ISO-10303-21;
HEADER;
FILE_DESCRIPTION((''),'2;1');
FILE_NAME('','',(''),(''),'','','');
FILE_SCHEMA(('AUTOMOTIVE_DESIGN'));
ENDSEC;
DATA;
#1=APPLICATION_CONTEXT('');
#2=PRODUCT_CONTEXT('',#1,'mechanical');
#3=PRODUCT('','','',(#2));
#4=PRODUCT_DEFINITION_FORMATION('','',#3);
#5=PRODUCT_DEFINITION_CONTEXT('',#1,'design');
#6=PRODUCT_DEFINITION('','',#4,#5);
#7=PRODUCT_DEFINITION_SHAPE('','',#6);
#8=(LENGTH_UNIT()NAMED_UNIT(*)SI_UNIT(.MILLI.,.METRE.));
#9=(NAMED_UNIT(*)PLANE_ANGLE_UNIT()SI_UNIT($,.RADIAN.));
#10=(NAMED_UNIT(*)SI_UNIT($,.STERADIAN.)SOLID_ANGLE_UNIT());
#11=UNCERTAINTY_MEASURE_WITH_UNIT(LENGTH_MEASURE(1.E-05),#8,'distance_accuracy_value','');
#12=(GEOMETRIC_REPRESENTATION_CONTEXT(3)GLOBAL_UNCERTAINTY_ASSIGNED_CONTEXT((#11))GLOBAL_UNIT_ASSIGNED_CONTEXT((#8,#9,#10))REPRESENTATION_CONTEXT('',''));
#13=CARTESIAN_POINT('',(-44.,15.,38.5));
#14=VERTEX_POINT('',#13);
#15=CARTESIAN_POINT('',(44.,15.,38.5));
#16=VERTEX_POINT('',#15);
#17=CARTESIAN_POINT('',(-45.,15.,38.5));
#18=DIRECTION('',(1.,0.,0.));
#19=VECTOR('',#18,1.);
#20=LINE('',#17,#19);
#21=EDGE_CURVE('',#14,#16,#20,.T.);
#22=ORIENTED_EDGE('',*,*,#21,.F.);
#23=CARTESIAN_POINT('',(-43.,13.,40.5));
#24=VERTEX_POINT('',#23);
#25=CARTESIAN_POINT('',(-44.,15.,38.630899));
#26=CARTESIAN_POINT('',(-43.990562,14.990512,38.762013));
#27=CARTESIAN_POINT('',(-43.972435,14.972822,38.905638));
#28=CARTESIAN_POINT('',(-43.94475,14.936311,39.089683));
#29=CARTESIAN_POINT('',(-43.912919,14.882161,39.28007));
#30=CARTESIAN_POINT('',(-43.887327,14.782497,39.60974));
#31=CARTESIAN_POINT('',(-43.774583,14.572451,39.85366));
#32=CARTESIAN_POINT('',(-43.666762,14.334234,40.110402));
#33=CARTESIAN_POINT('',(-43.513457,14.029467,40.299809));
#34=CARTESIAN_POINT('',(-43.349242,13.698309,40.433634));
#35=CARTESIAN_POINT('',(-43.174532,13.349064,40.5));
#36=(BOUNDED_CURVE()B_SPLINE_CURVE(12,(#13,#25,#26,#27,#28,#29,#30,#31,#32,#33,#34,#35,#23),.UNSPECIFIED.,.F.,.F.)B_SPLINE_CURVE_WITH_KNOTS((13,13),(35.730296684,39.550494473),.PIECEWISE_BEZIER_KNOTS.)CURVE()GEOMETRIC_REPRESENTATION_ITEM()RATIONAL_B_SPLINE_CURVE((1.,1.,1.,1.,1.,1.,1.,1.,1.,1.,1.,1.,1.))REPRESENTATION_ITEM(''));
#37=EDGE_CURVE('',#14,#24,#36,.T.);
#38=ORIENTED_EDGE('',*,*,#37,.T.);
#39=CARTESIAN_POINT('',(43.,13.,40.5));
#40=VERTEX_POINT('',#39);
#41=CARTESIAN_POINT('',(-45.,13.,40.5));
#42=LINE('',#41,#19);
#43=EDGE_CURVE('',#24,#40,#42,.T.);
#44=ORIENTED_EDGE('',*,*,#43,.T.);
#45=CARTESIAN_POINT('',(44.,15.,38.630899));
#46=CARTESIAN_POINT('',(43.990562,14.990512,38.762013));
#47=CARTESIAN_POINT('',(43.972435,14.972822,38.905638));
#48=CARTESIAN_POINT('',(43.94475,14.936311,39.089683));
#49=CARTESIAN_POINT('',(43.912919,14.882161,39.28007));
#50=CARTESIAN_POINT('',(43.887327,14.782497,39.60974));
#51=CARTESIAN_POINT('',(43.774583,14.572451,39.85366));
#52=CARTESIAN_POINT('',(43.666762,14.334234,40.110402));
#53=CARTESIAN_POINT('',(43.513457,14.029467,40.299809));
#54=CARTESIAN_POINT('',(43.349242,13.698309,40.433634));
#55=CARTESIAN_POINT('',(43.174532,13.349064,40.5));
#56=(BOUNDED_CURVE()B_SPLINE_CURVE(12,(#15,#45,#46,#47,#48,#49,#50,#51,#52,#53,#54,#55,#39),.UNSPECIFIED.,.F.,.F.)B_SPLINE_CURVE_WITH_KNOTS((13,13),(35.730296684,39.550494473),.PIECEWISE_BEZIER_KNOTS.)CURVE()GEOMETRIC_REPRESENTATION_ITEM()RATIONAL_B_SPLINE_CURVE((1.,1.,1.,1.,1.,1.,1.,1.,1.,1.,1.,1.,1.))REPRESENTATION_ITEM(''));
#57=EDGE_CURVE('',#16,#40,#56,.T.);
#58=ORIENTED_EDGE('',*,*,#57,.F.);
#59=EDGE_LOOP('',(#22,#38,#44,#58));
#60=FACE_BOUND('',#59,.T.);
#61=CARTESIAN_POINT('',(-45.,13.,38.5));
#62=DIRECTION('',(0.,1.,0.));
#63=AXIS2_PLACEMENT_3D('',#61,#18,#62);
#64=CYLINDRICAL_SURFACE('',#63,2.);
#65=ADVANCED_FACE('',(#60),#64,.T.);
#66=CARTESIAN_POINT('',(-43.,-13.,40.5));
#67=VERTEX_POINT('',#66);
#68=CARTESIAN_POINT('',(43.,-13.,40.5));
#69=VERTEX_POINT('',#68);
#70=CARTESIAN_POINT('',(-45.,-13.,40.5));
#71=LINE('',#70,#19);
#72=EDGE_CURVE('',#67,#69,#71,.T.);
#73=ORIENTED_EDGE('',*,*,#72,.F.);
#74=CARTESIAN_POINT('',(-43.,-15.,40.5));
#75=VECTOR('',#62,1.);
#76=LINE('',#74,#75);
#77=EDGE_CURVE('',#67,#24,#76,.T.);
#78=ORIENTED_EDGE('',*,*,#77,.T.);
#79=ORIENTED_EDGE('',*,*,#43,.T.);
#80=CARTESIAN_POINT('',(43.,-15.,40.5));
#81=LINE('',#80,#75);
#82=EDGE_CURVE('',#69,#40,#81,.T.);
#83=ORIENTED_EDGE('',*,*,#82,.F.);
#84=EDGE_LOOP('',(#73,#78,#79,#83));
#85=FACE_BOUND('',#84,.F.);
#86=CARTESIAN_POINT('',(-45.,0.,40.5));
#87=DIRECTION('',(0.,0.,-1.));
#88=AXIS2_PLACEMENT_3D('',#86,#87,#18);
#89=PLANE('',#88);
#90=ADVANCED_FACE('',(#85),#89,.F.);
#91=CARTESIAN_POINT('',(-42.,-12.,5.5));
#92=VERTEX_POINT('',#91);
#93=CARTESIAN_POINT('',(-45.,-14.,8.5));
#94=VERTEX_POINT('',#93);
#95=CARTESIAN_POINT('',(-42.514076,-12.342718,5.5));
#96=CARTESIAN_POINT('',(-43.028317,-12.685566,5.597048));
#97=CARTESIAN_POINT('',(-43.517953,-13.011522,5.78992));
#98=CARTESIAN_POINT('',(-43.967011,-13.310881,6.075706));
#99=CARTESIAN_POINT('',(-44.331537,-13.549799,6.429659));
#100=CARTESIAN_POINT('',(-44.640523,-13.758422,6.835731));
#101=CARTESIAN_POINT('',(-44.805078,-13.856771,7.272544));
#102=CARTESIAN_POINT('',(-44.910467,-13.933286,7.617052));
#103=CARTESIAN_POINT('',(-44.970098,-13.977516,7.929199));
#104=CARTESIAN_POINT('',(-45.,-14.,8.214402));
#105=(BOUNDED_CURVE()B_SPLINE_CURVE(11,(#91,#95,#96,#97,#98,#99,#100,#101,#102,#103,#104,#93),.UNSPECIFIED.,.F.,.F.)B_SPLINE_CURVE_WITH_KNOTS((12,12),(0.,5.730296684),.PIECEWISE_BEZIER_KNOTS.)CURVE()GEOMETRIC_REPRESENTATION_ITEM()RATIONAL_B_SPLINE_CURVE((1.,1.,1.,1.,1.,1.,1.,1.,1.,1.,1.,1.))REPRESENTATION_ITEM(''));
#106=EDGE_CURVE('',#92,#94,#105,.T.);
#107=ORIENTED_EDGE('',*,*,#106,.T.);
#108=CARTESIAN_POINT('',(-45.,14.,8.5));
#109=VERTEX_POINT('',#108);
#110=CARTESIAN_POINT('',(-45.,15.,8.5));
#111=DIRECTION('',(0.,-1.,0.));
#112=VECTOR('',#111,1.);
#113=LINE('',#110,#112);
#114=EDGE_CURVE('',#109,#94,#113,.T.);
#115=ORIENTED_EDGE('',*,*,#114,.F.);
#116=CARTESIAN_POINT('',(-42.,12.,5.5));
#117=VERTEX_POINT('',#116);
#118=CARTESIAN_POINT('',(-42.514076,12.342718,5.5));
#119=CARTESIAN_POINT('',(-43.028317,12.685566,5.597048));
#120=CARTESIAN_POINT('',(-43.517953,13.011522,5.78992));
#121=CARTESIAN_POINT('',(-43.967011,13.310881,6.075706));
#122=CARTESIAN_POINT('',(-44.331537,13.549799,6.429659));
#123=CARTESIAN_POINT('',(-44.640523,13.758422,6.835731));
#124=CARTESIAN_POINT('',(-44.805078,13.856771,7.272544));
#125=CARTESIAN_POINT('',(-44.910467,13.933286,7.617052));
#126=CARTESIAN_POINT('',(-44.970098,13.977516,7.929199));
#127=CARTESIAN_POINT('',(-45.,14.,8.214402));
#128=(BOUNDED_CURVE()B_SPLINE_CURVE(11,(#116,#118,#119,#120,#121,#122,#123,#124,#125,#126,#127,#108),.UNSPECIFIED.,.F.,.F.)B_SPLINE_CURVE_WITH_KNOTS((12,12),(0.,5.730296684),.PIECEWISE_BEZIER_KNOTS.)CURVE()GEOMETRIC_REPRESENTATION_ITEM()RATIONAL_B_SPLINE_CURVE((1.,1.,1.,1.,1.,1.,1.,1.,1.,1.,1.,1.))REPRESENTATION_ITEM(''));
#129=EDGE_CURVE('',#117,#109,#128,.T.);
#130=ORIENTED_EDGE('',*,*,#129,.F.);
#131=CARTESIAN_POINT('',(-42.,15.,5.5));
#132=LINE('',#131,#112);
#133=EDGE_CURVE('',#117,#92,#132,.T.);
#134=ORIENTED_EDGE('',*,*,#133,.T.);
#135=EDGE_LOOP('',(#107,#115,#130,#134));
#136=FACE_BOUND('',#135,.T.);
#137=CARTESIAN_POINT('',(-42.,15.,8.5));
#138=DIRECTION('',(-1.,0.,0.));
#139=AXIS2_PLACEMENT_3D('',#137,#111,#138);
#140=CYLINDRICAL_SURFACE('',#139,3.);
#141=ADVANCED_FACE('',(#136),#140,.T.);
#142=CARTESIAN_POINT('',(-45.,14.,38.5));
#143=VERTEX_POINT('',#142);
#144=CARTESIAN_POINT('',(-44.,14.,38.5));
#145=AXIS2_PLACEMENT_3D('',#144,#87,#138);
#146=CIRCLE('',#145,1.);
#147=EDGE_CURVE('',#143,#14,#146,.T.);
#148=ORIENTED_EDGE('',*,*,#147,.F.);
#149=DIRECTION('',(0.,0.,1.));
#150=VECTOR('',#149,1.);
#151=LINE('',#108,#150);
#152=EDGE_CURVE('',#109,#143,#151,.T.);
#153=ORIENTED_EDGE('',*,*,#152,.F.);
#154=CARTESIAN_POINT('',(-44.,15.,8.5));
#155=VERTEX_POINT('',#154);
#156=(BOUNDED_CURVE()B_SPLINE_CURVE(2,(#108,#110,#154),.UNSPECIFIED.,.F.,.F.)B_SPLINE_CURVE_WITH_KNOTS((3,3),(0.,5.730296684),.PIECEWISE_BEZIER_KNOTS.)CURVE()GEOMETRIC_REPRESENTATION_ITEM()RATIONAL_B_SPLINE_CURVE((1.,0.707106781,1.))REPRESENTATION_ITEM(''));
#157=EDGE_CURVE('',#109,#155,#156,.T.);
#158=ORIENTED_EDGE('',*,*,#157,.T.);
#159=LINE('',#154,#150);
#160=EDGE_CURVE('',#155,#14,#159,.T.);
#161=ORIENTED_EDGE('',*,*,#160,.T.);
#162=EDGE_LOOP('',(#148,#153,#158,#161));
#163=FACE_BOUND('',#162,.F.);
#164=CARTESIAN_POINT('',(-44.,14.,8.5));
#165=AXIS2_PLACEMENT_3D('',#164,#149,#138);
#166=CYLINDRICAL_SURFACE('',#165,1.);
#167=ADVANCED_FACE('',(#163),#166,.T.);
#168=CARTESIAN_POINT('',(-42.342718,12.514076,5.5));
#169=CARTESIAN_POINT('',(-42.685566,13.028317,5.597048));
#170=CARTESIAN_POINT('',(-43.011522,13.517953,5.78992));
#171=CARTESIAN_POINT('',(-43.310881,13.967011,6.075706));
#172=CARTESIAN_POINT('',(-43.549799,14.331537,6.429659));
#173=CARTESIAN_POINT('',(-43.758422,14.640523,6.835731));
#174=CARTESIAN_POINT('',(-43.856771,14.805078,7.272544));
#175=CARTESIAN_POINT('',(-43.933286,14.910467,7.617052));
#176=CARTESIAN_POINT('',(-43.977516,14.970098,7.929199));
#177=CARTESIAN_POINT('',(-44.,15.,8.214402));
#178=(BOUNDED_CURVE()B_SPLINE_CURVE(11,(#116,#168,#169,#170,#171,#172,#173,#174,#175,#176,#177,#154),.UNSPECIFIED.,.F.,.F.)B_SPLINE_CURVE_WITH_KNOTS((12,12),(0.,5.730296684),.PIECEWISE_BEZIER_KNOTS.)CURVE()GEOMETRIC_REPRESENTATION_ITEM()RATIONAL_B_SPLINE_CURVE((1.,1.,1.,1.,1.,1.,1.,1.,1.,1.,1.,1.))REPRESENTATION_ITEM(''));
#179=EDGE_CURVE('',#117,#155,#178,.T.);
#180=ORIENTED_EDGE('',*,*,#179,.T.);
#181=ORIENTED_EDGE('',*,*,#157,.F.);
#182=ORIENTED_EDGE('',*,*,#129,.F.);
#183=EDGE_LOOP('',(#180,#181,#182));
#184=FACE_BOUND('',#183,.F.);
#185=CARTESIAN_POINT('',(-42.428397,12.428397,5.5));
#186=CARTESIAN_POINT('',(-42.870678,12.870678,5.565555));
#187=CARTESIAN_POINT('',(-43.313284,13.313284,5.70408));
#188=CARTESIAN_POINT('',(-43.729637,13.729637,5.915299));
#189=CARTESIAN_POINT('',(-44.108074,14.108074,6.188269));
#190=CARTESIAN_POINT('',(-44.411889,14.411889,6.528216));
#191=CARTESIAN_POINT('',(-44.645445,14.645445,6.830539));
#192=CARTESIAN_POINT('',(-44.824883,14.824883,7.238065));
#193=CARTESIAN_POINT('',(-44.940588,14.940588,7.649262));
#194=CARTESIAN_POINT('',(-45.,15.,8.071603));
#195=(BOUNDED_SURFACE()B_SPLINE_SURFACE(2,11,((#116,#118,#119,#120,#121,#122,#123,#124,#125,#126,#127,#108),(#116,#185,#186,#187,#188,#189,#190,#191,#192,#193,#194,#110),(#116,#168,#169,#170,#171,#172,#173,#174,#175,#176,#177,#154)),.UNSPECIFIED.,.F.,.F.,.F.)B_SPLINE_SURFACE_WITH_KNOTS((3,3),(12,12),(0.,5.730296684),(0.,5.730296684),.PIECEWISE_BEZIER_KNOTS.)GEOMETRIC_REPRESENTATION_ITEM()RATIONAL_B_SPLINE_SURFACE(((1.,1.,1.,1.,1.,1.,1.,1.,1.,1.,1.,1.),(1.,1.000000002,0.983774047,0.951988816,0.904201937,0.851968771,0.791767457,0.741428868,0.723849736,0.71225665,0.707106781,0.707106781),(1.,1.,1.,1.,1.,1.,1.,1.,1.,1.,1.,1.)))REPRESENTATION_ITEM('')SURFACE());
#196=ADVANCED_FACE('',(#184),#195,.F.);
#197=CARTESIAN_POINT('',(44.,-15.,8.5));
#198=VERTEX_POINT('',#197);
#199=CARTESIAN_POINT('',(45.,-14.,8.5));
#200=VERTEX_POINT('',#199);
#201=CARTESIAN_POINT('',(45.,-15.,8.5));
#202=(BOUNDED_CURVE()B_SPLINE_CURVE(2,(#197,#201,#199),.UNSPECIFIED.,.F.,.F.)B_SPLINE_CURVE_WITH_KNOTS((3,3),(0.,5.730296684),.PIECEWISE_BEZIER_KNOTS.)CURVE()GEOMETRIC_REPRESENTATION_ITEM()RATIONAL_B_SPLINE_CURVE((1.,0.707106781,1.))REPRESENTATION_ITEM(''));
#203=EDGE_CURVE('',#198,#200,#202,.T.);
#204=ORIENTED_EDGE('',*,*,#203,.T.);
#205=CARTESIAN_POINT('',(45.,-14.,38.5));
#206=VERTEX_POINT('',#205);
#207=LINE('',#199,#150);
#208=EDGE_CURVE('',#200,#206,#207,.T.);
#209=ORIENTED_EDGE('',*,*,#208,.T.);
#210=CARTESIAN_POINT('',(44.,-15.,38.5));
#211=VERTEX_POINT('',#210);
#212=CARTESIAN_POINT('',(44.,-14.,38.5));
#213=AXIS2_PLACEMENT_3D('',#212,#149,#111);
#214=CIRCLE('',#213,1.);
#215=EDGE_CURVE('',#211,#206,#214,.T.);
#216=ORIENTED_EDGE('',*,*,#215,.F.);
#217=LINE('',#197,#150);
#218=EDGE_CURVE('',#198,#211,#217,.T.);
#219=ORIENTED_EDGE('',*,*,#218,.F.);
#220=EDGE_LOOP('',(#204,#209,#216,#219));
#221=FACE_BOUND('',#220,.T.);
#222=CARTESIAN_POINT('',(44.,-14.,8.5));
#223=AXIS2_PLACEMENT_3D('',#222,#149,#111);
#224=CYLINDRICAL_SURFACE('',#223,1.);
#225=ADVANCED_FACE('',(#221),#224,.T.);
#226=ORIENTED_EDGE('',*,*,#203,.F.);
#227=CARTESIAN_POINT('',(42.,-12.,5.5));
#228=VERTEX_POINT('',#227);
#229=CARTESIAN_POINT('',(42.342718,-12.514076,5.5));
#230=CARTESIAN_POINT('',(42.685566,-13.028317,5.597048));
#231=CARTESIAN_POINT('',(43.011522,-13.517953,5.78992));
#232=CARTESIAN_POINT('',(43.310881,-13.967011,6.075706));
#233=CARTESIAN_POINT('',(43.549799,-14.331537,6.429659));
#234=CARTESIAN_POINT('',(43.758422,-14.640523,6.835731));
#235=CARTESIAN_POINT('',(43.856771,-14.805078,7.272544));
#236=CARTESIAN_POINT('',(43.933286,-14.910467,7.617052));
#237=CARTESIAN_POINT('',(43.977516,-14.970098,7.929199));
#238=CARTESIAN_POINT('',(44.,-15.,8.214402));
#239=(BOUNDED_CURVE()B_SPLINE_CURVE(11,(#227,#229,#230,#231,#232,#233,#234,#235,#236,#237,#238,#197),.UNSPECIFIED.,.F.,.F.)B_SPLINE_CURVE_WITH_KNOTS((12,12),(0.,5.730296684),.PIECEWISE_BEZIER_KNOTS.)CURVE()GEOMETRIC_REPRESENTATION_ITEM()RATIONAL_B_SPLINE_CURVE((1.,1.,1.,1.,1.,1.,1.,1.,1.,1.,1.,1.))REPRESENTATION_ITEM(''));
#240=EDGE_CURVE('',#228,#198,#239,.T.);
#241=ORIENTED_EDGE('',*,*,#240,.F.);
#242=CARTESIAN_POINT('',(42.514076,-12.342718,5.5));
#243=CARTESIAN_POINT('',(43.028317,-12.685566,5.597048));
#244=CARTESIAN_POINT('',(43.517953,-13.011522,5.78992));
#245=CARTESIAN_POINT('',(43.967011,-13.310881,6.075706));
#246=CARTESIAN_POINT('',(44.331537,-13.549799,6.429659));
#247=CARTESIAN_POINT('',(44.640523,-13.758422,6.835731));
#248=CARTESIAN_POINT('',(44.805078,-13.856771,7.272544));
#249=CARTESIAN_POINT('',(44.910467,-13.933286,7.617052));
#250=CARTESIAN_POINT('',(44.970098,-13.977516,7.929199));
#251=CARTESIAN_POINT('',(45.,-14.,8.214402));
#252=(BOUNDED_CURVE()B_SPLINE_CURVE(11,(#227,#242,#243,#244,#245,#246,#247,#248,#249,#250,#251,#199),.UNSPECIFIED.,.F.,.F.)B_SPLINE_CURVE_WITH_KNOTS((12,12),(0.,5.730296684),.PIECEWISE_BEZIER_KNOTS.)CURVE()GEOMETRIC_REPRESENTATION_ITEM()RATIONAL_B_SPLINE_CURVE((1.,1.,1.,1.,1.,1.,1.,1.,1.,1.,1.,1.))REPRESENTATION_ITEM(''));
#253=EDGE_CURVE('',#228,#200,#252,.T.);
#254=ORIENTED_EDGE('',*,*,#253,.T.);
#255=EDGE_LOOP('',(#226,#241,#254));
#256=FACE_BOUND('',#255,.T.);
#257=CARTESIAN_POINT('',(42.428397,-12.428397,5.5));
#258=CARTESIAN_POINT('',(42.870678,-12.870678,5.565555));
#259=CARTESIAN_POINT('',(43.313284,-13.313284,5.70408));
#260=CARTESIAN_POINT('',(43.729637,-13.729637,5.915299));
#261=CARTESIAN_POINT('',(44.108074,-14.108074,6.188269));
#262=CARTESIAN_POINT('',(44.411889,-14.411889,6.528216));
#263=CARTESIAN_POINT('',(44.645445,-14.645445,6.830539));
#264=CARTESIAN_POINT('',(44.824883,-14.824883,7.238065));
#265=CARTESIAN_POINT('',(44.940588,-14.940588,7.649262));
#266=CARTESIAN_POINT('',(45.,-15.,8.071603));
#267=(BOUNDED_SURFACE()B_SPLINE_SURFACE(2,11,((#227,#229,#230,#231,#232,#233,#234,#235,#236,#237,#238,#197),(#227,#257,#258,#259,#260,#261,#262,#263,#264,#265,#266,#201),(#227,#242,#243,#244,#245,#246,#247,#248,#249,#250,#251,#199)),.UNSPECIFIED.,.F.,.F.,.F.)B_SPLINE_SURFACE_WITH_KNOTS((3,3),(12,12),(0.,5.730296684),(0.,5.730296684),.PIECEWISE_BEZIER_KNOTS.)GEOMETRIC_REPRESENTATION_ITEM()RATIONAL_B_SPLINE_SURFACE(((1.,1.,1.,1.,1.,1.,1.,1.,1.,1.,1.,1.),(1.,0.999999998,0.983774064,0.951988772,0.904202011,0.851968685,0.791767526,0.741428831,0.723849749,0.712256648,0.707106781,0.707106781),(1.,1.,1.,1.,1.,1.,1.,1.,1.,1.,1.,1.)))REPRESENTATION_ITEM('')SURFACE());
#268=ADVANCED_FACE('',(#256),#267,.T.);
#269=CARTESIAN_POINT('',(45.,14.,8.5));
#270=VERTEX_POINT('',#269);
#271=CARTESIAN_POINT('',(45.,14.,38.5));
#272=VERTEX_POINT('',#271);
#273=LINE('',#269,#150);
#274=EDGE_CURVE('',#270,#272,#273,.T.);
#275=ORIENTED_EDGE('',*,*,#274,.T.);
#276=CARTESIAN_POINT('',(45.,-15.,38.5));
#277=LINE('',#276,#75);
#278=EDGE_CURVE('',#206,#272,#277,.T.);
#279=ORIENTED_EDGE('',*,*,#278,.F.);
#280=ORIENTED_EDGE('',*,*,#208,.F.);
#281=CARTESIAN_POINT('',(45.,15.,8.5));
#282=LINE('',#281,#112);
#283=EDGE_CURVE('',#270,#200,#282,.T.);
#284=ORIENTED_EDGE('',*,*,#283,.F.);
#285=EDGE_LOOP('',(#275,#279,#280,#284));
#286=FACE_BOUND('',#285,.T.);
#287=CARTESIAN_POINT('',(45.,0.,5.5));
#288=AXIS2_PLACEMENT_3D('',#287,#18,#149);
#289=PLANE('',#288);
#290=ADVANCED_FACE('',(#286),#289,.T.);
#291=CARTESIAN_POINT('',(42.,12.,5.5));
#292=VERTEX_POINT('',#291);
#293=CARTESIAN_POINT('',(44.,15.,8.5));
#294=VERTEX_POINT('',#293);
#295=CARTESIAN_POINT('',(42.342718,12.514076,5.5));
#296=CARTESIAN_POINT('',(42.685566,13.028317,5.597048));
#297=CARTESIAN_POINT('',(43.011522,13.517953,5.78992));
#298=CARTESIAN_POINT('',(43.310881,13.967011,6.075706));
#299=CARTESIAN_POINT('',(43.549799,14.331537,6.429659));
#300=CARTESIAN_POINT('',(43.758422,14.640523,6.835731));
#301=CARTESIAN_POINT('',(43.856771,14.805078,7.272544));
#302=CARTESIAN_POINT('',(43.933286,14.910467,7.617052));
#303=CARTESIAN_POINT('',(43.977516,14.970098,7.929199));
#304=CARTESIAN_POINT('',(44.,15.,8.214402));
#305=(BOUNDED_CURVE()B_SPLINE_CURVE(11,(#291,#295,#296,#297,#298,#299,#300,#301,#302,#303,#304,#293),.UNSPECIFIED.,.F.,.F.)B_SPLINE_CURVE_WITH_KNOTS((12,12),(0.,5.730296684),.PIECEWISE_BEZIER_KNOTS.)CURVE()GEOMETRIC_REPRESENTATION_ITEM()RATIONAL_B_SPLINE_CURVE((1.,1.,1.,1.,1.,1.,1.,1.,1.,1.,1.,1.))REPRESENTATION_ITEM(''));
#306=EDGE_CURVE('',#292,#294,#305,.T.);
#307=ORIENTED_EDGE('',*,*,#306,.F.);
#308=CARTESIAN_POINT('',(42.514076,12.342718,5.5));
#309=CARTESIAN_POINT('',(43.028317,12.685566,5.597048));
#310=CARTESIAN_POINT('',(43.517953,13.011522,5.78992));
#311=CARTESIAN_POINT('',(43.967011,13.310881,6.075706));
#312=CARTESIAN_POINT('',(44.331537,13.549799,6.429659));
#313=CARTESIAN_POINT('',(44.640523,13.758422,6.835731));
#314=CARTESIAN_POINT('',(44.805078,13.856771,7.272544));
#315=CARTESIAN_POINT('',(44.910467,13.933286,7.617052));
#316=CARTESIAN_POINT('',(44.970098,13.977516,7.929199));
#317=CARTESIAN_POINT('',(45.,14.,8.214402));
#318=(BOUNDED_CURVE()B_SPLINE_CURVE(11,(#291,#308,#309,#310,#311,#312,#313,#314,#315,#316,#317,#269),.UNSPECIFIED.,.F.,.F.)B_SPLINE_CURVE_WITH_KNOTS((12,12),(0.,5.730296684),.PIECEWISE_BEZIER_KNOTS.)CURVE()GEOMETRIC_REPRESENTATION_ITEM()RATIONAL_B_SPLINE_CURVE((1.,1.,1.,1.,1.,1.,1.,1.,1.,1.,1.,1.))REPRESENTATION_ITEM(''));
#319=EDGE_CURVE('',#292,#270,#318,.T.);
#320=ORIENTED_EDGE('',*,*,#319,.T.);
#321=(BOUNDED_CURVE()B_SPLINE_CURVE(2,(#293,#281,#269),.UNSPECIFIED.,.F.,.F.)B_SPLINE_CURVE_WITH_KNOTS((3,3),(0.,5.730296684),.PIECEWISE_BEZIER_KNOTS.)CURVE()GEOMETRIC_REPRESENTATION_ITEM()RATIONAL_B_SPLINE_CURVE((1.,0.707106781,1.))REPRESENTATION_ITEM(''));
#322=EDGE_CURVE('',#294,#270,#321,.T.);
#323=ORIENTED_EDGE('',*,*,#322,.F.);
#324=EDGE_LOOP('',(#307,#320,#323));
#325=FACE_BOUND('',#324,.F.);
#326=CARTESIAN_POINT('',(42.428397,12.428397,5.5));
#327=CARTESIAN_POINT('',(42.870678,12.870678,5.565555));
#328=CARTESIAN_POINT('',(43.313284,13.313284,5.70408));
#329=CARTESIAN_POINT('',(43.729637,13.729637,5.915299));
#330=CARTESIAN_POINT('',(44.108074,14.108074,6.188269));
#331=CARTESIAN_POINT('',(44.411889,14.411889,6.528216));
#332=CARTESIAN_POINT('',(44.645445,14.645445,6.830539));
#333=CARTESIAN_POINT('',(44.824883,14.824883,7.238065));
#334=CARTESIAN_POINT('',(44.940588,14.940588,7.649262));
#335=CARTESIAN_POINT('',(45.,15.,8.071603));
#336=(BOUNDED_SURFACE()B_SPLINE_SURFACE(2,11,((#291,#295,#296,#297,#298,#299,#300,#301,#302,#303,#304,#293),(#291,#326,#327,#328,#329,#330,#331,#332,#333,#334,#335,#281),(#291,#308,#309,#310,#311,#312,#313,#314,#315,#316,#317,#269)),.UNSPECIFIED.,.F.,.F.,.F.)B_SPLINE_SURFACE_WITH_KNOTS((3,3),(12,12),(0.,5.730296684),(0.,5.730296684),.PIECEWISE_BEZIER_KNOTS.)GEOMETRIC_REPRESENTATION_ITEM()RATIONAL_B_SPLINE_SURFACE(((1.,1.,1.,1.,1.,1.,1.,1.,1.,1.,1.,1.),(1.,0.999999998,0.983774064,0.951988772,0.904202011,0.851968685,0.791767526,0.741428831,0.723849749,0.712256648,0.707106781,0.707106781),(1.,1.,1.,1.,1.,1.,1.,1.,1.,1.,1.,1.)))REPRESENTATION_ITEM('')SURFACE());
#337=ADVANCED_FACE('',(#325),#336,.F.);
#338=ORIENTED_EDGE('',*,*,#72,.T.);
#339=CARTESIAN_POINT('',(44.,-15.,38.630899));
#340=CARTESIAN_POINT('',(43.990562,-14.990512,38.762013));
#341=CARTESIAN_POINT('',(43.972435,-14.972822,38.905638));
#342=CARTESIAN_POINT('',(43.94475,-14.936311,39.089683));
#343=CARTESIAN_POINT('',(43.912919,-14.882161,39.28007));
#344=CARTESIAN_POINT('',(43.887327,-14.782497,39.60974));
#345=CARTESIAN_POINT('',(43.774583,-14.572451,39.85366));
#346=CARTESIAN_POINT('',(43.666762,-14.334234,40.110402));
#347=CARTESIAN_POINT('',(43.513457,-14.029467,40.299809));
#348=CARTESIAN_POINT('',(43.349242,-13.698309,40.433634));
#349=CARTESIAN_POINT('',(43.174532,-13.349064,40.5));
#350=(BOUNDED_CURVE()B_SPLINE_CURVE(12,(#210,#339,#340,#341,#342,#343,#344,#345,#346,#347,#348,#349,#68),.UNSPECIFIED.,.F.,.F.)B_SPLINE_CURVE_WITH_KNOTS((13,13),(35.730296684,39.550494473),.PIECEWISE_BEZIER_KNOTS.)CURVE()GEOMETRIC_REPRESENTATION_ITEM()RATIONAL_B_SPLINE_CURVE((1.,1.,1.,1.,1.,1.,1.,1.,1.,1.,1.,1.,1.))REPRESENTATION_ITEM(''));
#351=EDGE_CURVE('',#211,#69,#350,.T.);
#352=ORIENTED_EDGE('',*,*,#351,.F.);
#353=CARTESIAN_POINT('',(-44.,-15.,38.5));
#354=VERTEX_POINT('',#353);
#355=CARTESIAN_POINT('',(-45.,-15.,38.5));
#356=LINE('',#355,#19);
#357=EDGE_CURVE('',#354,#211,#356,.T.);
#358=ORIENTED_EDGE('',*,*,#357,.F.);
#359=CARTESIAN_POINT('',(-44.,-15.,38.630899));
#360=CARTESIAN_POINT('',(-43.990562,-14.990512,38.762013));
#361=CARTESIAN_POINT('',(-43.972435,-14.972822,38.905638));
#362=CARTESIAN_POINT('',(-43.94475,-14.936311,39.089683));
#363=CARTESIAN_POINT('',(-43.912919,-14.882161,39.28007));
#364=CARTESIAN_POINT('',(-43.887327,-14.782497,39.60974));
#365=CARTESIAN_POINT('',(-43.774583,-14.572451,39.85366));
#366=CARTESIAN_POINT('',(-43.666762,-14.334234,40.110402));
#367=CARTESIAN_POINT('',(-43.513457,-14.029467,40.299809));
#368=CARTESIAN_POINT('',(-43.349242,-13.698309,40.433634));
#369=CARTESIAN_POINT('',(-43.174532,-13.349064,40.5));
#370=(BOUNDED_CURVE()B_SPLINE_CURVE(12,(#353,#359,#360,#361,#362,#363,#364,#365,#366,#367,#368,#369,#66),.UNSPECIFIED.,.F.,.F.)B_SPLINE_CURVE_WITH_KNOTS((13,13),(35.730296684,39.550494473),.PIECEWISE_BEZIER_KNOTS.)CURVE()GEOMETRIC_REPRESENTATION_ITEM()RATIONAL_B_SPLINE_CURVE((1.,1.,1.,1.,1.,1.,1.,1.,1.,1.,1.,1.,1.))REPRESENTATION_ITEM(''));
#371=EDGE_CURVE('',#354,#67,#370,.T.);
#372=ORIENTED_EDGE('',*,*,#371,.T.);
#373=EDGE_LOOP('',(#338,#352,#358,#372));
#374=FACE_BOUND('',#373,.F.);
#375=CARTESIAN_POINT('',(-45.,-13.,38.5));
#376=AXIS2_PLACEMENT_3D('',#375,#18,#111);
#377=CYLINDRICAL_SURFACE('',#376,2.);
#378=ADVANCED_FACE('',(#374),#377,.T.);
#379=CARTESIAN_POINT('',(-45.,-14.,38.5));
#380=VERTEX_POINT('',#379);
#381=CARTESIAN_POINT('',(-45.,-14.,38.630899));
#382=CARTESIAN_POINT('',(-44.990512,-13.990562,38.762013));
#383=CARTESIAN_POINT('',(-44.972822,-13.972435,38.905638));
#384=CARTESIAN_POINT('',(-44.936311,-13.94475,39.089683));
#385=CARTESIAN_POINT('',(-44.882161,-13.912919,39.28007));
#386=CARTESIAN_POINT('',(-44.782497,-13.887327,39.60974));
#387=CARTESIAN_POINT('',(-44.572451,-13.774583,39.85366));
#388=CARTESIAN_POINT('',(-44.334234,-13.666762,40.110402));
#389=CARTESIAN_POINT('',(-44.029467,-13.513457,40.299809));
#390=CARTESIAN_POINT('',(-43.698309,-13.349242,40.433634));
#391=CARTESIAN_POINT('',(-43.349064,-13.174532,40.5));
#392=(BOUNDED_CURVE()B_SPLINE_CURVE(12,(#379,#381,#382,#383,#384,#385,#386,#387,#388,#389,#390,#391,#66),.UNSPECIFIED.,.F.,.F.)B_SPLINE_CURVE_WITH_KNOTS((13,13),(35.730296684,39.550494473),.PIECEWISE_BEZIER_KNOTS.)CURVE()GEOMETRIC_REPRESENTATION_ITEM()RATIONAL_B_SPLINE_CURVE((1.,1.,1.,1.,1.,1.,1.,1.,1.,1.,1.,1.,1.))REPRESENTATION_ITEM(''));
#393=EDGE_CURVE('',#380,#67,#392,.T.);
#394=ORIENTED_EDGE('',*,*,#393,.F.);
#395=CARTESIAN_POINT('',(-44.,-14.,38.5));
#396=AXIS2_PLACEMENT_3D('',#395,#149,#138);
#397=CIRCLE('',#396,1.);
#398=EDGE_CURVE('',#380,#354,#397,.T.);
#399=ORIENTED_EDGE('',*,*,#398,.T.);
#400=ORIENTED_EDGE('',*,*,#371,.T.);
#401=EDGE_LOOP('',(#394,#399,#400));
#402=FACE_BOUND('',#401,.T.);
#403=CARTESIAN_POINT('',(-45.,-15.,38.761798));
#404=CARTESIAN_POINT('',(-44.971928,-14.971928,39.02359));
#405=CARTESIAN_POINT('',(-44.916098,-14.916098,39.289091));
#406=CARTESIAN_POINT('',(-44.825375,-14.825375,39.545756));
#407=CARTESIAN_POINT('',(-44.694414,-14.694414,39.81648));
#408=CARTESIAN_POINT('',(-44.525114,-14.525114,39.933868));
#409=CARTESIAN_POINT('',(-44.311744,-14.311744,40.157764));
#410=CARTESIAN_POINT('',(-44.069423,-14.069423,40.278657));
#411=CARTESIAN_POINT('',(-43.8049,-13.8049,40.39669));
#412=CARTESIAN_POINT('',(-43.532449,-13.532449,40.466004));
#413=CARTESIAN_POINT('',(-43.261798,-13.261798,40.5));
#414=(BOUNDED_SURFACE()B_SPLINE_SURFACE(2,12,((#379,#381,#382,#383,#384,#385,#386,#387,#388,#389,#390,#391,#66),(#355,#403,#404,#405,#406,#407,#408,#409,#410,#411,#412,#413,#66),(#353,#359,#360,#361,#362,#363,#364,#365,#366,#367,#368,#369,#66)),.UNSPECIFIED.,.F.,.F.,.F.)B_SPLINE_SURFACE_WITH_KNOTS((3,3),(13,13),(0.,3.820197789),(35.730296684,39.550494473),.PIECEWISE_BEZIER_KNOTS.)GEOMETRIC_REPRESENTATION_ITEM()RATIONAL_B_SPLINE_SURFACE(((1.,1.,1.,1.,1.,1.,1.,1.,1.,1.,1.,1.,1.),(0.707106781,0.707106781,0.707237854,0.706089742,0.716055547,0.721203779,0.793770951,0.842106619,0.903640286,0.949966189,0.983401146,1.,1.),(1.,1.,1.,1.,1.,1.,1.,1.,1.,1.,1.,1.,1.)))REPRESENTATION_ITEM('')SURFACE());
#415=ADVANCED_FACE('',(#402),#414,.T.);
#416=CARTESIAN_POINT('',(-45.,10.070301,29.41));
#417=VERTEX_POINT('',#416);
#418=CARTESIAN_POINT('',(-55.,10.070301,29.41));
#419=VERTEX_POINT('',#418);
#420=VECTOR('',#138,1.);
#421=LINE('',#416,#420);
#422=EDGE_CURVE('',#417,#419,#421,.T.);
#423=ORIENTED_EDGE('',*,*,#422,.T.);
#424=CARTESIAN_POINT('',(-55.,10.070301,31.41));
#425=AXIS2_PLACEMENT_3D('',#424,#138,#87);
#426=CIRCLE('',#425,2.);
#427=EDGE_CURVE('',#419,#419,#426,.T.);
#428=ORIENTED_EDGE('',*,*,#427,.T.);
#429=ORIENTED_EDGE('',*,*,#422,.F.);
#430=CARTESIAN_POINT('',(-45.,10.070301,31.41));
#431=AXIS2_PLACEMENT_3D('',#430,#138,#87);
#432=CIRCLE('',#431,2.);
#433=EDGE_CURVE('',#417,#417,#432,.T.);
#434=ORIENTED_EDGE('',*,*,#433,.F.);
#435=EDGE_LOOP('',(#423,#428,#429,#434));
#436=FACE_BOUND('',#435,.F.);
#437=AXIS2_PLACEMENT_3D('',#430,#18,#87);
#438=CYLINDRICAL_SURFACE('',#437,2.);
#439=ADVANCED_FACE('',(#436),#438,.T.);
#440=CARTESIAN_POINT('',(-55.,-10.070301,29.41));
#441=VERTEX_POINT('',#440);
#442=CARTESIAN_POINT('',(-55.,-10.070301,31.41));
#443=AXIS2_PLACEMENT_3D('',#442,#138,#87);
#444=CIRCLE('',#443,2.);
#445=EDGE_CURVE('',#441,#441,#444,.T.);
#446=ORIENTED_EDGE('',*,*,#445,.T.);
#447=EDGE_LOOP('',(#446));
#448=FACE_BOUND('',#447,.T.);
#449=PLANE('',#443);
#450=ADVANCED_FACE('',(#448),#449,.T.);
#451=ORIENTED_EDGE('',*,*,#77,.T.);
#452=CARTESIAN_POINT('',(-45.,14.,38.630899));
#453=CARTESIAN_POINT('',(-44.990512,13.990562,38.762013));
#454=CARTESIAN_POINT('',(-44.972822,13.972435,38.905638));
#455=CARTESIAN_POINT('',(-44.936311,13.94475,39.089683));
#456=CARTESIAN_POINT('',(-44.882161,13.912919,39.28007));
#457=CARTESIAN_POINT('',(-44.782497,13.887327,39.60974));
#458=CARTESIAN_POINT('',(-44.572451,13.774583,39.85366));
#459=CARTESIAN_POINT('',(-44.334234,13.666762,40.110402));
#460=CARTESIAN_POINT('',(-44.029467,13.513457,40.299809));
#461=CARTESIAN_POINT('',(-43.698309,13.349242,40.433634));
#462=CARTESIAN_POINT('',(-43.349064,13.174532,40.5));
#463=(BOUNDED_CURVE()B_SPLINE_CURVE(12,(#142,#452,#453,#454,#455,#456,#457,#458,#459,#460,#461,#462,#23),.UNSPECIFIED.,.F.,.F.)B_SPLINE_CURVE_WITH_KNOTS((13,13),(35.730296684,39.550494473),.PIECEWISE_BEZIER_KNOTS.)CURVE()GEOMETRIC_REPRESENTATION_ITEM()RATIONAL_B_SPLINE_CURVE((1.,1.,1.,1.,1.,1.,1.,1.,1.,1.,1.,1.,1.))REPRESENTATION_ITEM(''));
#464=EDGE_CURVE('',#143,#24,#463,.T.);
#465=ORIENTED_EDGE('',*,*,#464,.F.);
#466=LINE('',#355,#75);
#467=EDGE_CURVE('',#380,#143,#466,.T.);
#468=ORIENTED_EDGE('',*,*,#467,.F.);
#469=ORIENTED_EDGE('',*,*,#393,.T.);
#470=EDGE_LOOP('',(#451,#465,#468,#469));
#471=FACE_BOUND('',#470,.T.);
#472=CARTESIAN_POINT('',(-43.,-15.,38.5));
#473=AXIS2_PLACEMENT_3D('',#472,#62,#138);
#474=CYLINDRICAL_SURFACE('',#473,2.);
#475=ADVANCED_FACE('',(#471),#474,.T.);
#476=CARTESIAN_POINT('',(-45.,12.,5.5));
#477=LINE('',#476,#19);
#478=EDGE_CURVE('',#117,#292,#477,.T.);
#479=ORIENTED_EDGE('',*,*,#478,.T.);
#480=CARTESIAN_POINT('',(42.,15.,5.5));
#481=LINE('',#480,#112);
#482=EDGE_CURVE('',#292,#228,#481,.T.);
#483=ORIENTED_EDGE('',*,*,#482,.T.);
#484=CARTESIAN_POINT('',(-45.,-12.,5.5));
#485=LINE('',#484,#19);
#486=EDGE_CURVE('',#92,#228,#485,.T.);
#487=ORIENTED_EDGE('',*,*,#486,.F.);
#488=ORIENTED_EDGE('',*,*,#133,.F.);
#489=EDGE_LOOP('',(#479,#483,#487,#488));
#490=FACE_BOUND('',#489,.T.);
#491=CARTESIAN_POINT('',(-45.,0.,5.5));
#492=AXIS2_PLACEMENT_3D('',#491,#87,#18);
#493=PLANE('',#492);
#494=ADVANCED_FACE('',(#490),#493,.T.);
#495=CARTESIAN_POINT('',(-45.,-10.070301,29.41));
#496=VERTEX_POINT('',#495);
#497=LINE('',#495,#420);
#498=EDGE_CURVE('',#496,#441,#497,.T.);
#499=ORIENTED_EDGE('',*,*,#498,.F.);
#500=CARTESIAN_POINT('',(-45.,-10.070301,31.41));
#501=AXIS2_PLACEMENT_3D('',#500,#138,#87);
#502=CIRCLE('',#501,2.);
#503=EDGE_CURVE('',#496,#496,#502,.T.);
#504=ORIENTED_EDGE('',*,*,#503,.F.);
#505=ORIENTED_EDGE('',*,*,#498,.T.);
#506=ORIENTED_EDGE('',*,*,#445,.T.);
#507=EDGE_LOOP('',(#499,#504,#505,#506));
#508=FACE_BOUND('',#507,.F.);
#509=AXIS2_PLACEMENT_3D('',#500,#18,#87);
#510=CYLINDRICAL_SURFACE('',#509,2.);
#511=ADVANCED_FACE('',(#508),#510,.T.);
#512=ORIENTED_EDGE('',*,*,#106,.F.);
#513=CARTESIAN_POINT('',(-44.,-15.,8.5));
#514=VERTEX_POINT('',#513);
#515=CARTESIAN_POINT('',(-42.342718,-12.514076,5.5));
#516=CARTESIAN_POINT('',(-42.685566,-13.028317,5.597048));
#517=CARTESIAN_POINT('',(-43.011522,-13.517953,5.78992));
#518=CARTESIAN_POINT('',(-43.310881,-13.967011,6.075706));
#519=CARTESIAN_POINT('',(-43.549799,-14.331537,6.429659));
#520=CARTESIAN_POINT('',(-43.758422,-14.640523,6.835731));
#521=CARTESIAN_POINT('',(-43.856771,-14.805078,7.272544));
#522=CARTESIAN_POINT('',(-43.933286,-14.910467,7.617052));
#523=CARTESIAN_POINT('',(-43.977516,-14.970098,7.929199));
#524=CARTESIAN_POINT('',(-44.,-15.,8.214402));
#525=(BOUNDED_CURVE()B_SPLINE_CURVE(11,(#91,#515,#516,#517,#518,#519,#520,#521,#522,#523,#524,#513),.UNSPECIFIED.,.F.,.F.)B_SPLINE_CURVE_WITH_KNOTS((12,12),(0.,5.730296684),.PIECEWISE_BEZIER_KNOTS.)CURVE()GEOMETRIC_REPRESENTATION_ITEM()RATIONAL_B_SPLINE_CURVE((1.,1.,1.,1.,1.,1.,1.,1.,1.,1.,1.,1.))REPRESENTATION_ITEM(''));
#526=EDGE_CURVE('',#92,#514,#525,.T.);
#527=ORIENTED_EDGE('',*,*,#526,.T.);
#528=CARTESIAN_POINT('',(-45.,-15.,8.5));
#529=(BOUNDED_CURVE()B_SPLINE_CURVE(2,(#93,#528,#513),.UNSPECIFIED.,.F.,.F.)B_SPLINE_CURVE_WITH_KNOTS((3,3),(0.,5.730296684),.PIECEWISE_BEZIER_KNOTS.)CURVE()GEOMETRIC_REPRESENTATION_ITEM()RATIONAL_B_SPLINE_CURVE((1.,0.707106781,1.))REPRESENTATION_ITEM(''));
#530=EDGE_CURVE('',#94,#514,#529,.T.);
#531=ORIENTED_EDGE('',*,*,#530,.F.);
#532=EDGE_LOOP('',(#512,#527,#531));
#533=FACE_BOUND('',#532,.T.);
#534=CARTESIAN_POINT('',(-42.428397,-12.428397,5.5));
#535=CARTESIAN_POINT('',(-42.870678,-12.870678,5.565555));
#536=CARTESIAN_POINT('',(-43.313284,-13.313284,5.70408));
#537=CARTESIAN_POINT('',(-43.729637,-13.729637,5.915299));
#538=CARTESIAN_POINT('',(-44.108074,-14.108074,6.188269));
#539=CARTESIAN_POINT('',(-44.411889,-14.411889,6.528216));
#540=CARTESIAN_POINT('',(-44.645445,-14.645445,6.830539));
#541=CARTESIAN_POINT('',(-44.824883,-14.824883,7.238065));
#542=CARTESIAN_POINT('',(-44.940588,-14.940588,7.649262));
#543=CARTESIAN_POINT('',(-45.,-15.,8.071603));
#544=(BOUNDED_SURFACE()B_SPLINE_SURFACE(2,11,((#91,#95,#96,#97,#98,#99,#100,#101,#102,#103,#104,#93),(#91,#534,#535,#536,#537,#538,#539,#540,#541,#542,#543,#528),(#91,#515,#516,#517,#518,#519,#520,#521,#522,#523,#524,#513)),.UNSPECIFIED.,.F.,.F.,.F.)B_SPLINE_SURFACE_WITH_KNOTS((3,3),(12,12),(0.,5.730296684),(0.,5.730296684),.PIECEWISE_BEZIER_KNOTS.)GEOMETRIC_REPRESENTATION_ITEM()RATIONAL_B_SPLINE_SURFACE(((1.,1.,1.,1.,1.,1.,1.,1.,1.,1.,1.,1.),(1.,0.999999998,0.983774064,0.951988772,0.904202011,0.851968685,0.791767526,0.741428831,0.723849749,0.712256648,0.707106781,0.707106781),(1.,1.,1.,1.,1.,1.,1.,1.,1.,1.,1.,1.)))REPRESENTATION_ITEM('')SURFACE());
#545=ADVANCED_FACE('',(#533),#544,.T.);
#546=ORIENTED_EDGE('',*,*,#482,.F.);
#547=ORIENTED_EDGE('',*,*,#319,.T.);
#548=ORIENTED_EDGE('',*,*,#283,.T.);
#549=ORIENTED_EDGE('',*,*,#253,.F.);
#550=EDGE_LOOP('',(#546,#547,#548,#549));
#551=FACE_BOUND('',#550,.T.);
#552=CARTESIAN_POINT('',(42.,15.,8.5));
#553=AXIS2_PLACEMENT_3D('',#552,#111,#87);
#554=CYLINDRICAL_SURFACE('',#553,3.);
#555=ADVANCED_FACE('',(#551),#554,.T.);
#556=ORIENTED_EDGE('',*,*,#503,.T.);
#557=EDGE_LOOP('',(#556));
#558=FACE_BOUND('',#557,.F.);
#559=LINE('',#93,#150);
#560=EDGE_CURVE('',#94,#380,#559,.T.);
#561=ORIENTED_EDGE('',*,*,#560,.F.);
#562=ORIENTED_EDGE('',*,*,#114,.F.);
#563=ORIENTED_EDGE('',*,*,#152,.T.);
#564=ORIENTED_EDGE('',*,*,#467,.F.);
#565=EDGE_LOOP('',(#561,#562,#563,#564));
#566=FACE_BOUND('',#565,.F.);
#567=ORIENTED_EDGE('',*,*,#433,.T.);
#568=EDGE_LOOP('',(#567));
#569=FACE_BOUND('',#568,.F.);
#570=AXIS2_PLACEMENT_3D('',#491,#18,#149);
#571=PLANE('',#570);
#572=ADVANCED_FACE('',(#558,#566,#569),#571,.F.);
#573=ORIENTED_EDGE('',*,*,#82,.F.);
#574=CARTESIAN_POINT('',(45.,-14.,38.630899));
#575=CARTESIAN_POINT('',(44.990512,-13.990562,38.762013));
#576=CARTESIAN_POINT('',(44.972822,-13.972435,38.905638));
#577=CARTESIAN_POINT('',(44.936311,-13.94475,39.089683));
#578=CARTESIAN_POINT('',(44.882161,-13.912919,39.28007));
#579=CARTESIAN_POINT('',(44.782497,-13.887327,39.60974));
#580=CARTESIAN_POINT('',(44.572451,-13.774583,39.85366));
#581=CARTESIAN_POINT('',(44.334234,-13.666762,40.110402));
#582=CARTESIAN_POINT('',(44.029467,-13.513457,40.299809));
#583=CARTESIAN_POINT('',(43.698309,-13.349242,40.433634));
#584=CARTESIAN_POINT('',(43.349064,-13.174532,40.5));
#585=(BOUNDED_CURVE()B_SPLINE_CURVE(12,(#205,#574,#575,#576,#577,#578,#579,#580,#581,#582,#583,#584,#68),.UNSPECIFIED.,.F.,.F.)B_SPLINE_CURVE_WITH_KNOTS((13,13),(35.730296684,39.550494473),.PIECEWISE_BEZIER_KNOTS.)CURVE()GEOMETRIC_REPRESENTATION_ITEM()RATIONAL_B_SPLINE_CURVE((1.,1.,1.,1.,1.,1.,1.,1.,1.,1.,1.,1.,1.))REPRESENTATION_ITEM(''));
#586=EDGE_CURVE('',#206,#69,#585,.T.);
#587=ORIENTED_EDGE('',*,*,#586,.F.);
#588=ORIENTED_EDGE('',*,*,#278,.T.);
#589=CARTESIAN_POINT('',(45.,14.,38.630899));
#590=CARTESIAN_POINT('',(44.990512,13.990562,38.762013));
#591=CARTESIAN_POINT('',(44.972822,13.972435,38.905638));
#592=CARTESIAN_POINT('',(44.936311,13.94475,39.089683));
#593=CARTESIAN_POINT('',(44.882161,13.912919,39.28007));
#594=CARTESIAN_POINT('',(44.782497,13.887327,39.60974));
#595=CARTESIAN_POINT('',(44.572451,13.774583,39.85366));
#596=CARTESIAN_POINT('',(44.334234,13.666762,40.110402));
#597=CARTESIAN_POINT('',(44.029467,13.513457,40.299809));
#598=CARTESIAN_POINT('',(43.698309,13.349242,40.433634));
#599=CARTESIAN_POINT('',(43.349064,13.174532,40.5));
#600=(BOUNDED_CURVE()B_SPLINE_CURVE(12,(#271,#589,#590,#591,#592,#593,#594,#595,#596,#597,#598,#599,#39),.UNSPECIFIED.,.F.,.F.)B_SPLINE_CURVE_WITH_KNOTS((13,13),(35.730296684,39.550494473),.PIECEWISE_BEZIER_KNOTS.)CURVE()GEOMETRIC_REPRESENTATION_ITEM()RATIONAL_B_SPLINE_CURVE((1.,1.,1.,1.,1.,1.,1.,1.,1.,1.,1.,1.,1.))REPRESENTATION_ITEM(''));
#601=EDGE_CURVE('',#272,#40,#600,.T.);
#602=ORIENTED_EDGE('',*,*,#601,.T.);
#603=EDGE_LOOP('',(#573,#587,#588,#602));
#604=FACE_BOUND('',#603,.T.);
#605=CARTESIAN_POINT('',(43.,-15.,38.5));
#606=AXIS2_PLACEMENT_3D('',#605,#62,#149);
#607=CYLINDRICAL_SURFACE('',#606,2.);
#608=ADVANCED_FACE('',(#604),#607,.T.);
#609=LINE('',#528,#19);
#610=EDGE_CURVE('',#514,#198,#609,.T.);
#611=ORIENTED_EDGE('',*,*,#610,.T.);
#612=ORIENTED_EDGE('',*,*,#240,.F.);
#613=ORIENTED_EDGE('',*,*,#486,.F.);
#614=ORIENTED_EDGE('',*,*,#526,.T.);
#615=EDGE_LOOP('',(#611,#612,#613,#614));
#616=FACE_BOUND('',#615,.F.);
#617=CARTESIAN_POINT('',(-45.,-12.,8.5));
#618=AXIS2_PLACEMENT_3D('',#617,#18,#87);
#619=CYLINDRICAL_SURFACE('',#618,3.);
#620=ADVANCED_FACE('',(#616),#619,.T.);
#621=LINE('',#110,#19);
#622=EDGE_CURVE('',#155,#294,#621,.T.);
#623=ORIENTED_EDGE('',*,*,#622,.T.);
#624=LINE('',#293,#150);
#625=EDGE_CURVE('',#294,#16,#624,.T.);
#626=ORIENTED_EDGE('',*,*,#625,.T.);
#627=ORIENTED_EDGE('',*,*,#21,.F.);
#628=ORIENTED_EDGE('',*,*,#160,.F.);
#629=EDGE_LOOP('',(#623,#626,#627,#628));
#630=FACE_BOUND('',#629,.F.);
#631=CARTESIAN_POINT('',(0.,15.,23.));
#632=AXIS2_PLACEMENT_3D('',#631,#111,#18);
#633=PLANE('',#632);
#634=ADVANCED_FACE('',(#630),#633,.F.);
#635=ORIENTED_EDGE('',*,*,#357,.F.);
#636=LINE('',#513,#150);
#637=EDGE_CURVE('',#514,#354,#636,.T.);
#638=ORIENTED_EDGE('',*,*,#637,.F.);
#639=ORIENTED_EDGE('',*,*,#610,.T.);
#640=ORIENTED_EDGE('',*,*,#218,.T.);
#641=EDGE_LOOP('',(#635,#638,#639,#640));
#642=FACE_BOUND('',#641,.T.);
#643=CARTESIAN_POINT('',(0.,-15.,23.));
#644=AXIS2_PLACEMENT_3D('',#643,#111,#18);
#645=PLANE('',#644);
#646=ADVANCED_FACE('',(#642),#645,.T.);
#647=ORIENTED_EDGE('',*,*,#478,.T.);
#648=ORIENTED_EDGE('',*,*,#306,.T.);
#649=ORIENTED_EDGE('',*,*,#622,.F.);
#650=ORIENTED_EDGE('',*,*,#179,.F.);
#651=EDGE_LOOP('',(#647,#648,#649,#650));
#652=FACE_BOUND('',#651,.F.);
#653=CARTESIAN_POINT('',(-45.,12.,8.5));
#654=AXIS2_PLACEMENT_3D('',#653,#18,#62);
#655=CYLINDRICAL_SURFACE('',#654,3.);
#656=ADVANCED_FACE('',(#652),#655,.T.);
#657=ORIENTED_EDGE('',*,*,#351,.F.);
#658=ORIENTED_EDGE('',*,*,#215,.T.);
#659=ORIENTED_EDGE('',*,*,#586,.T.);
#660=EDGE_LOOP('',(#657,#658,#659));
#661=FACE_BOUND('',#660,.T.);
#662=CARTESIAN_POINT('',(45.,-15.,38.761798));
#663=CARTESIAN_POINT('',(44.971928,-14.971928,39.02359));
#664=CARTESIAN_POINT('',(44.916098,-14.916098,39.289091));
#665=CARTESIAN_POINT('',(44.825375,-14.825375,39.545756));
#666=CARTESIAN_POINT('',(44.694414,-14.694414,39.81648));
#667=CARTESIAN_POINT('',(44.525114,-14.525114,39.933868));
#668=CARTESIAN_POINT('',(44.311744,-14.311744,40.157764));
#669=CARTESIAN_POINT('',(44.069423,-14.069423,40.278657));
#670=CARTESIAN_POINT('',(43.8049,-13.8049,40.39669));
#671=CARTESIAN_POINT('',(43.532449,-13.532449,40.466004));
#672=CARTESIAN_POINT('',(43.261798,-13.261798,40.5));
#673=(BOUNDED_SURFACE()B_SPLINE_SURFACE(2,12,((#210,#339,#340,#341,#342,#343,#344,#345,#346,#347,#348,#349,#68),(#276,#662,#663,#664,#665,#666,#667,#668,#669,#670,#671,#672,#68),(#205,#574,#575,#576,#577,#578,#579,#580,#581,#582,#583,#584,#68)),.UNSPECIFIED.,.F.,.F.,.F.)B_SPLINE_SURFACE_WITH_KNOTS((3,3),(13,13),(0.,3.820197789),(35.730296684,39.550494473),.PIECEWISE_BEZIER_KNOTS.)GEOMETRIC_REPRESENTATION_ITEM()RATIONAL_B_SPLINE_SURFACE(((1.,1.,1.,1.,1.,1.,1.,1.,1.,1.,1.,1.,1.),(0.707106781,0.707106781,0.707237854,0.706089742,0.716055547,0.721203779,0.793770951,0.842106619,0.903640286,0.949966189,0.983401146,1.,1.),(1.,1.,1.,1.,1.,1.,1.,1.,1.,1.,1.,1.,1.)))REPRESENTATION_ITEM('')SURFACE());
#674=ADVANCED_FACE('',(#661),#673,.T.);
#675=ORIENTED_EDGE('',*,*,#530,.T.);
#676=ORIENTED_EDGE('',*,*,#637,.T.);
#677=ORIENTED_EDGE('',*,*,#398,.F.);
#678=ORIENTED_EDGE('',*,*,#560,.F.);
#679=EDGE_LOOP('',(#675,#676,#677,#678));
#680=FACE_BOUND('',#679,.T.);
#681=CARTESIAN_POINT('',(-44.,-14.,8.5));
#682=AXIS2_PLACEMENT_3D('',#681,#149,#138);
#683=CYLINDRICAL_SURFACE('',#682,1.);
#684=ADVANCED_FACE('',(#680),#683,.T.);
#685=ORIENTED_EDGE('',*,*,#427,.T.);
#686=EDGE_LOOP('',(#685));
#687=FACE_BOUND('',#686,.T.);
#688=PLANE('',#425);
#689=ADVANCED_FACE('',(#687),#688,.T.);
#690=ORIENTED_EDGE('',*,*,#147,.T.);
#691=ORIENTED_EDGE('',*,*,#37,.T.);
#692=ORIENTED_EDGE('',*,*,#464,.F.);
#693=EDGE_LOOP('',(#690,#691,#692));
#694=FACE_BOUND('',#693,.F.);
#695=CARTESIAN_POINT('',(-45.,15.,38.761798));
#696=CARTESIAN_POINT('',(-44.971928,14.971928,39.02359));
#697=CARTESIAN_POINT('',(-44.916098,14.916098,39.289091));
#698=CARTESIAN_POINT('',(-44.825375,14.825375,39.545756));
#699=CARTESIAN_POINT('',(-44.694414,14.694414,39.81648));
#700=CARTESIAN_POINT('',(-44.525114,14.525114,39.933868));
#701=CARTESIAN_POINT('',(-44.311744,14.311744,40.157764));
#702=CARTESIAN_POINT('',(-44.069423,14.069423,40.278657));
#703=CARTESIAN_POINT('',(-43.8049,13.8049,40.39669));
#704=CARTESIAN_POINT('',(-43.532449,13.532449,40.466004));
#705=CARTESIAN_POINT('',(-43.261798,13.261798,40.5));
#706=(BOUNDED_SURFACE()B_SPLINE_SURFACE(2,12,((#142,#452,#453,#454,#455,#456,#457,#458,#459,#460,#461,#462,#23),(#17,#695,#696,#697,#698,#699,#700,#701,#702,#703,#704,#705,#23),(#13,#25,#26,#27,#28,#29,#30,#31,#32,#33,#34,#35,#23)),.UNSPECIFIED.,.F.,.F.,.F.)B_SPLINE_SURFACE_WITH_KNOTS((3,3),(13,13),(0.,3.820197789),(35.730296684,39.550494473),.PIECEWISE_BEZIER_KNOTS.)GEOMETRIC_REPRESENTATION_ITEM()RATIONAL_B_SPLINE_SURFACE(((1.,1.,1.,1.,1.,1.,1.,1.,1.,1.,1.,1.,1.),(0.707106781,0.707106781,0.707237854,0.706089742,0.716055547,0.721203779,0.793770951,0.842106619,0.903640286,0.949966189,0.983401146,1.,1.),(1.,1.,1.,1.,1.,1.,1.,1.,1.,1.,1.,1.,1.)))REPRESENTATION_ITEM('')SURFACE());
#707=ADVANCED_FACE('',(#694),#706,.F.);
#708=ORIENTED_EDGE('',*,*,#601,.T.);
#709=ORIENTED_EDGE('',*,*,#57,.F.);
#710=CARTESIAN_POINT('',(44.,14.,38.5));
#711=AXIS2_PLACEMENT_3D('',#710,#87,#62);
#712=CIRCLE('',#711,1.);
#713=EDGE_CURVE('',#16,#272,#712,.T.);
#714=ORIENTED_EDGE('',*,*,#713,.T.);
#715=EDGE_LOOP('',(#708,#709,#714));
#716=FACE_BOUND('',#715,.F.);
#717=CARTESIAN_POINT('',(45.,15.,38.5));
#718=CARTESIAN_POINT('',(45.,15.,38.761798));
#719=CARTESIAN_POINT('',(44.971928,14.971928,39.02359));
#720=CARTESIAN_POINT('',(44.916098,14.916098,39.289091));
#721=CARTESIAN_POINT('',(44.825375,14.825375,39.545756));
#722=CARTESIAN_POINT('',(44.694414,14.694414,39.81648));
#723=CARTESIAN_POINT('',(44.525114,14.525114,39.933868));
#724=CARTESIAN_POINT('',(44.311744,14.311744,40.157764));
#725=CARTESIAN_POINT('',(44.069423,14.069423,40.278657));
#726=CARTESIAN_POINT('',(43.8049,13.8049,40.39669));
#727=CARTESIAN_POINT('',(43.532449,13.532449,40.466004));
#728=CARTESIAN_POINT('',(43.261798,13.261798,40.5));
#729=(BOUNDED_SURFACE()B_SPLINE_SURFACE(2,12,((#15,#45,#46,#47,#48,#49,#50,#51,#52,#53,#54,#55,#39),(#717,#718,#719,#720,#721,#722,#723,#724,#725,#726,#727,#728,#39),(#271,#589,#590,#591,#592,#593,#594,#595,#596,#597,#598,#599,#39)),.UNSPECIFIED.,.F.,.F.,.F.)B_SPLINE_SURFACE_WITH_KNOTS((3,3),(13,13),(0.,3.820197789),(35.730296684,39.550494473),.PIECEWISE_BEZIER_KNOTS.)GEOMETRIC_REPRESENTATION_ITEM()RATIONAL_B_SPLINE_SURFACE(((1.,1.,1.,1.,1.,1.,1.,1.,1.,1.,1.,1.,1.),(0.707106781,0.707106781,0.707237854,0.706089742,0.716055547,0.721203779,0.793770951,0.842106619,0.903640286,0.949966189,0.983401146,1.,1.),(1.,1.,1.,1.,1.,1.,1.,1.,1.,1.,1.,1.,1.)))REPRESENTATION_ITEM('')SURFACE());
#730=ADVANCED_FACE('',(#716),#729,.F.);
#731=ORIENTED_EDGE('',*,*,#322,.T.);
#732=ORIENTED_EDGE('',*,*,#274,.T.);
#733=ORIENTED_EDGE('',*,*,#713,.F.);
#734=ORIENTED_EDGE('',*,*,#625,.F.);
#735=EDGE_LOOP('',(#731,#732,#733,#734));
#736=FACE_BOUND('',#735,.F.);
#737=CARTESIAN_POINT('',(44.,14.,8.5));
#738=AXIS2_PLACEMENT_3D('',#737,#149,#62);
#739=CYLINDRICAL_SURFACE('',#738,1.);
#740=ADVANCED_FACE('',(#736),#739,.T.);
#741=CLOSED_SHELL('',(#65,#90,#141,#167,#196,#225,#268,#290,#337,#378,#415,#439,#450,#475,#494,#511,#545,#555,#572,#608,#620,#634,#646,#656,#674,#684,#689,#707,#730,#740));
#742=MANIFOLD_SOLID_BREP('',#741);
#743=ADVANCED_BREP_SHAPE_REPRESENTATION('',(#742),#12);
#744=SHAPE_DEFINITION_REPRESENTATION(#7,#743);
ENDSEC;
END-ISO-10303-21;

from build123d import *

# Parameters (mm, degrees)
SKETCH_W             = 90
SKETCH_H             = 35
PAD_DEPTH            = 15
SKETCH001_R          = 2
PAD001_DEPTH         = 10
FILLET_R             = 2
FILLET001_R          = 3
FILLET002_R          = 1
BODY_PLACEMENT_ANGLE = 90


with BuildPart() as part:
    # Sketch → Pad (new body, symmetric)
    with BuildSketch(Plane.XY):
        Rectangle(SKETCH_W, SKETCH_H)
    extrude(amount=PAD_DEPTH, both=True)

    # Sketch001 (on Face4 of Pad) → Pad001 (join)
    with BuildSketch(Plane(origin=(-45, 0, 0), x_dir=(0, -1, 0), z_dir=(-1, 0, 0))):
        with Locations((-8.41, 10.070301)):
            Circle(SKETCH001_R)
        with Locations((-8.41, -10.070301)):
            Circle(SKETCH001_R)
    extrude(amount=PAD001_DEPTH)

    # Fillet
    fillet_edges = [part.edges().sort_by_distance(p)[0] for p in [
        (-45, 17.5, 0),
        (45, 17.5, 0),
        (0, 17.5, -15),
        (0, 17.5, 15),
    ]]
    fillet(fillet_edges, radius=FILLET_R)

    # Fillet001
    fillet001_edges = [part.edges().sort_by_distance(p)[0] for p in [
        (45, -17.5, 0),
        (-45, -17.5, 0),
        (0, -17.5, -15),
        (0, -17.5, 15),
    ]]
    fillet(fillet001_edges, radius=FILLET001_R)

    # Fillet002
    fillet002_edges = [part.edges().sort_by_distance(p)[0] for p in [
        (-45, 0.5, -15),
        (-45, 0.5, 15),
        (45, 0.5, 15),
        (45, 0.5, -15),
    ]]
    fillet(fillet002_edges, radius=FILLET002_R)


with BuildPart() as part_1:
    # Body placement: moved
    add(part.part.moved(Location((0, 0, 23))).rotate(Axis((0, 0, 23), (1, 0, 0)), BODY_PLACEMENT_ANGLE))


solid = part_1.part
